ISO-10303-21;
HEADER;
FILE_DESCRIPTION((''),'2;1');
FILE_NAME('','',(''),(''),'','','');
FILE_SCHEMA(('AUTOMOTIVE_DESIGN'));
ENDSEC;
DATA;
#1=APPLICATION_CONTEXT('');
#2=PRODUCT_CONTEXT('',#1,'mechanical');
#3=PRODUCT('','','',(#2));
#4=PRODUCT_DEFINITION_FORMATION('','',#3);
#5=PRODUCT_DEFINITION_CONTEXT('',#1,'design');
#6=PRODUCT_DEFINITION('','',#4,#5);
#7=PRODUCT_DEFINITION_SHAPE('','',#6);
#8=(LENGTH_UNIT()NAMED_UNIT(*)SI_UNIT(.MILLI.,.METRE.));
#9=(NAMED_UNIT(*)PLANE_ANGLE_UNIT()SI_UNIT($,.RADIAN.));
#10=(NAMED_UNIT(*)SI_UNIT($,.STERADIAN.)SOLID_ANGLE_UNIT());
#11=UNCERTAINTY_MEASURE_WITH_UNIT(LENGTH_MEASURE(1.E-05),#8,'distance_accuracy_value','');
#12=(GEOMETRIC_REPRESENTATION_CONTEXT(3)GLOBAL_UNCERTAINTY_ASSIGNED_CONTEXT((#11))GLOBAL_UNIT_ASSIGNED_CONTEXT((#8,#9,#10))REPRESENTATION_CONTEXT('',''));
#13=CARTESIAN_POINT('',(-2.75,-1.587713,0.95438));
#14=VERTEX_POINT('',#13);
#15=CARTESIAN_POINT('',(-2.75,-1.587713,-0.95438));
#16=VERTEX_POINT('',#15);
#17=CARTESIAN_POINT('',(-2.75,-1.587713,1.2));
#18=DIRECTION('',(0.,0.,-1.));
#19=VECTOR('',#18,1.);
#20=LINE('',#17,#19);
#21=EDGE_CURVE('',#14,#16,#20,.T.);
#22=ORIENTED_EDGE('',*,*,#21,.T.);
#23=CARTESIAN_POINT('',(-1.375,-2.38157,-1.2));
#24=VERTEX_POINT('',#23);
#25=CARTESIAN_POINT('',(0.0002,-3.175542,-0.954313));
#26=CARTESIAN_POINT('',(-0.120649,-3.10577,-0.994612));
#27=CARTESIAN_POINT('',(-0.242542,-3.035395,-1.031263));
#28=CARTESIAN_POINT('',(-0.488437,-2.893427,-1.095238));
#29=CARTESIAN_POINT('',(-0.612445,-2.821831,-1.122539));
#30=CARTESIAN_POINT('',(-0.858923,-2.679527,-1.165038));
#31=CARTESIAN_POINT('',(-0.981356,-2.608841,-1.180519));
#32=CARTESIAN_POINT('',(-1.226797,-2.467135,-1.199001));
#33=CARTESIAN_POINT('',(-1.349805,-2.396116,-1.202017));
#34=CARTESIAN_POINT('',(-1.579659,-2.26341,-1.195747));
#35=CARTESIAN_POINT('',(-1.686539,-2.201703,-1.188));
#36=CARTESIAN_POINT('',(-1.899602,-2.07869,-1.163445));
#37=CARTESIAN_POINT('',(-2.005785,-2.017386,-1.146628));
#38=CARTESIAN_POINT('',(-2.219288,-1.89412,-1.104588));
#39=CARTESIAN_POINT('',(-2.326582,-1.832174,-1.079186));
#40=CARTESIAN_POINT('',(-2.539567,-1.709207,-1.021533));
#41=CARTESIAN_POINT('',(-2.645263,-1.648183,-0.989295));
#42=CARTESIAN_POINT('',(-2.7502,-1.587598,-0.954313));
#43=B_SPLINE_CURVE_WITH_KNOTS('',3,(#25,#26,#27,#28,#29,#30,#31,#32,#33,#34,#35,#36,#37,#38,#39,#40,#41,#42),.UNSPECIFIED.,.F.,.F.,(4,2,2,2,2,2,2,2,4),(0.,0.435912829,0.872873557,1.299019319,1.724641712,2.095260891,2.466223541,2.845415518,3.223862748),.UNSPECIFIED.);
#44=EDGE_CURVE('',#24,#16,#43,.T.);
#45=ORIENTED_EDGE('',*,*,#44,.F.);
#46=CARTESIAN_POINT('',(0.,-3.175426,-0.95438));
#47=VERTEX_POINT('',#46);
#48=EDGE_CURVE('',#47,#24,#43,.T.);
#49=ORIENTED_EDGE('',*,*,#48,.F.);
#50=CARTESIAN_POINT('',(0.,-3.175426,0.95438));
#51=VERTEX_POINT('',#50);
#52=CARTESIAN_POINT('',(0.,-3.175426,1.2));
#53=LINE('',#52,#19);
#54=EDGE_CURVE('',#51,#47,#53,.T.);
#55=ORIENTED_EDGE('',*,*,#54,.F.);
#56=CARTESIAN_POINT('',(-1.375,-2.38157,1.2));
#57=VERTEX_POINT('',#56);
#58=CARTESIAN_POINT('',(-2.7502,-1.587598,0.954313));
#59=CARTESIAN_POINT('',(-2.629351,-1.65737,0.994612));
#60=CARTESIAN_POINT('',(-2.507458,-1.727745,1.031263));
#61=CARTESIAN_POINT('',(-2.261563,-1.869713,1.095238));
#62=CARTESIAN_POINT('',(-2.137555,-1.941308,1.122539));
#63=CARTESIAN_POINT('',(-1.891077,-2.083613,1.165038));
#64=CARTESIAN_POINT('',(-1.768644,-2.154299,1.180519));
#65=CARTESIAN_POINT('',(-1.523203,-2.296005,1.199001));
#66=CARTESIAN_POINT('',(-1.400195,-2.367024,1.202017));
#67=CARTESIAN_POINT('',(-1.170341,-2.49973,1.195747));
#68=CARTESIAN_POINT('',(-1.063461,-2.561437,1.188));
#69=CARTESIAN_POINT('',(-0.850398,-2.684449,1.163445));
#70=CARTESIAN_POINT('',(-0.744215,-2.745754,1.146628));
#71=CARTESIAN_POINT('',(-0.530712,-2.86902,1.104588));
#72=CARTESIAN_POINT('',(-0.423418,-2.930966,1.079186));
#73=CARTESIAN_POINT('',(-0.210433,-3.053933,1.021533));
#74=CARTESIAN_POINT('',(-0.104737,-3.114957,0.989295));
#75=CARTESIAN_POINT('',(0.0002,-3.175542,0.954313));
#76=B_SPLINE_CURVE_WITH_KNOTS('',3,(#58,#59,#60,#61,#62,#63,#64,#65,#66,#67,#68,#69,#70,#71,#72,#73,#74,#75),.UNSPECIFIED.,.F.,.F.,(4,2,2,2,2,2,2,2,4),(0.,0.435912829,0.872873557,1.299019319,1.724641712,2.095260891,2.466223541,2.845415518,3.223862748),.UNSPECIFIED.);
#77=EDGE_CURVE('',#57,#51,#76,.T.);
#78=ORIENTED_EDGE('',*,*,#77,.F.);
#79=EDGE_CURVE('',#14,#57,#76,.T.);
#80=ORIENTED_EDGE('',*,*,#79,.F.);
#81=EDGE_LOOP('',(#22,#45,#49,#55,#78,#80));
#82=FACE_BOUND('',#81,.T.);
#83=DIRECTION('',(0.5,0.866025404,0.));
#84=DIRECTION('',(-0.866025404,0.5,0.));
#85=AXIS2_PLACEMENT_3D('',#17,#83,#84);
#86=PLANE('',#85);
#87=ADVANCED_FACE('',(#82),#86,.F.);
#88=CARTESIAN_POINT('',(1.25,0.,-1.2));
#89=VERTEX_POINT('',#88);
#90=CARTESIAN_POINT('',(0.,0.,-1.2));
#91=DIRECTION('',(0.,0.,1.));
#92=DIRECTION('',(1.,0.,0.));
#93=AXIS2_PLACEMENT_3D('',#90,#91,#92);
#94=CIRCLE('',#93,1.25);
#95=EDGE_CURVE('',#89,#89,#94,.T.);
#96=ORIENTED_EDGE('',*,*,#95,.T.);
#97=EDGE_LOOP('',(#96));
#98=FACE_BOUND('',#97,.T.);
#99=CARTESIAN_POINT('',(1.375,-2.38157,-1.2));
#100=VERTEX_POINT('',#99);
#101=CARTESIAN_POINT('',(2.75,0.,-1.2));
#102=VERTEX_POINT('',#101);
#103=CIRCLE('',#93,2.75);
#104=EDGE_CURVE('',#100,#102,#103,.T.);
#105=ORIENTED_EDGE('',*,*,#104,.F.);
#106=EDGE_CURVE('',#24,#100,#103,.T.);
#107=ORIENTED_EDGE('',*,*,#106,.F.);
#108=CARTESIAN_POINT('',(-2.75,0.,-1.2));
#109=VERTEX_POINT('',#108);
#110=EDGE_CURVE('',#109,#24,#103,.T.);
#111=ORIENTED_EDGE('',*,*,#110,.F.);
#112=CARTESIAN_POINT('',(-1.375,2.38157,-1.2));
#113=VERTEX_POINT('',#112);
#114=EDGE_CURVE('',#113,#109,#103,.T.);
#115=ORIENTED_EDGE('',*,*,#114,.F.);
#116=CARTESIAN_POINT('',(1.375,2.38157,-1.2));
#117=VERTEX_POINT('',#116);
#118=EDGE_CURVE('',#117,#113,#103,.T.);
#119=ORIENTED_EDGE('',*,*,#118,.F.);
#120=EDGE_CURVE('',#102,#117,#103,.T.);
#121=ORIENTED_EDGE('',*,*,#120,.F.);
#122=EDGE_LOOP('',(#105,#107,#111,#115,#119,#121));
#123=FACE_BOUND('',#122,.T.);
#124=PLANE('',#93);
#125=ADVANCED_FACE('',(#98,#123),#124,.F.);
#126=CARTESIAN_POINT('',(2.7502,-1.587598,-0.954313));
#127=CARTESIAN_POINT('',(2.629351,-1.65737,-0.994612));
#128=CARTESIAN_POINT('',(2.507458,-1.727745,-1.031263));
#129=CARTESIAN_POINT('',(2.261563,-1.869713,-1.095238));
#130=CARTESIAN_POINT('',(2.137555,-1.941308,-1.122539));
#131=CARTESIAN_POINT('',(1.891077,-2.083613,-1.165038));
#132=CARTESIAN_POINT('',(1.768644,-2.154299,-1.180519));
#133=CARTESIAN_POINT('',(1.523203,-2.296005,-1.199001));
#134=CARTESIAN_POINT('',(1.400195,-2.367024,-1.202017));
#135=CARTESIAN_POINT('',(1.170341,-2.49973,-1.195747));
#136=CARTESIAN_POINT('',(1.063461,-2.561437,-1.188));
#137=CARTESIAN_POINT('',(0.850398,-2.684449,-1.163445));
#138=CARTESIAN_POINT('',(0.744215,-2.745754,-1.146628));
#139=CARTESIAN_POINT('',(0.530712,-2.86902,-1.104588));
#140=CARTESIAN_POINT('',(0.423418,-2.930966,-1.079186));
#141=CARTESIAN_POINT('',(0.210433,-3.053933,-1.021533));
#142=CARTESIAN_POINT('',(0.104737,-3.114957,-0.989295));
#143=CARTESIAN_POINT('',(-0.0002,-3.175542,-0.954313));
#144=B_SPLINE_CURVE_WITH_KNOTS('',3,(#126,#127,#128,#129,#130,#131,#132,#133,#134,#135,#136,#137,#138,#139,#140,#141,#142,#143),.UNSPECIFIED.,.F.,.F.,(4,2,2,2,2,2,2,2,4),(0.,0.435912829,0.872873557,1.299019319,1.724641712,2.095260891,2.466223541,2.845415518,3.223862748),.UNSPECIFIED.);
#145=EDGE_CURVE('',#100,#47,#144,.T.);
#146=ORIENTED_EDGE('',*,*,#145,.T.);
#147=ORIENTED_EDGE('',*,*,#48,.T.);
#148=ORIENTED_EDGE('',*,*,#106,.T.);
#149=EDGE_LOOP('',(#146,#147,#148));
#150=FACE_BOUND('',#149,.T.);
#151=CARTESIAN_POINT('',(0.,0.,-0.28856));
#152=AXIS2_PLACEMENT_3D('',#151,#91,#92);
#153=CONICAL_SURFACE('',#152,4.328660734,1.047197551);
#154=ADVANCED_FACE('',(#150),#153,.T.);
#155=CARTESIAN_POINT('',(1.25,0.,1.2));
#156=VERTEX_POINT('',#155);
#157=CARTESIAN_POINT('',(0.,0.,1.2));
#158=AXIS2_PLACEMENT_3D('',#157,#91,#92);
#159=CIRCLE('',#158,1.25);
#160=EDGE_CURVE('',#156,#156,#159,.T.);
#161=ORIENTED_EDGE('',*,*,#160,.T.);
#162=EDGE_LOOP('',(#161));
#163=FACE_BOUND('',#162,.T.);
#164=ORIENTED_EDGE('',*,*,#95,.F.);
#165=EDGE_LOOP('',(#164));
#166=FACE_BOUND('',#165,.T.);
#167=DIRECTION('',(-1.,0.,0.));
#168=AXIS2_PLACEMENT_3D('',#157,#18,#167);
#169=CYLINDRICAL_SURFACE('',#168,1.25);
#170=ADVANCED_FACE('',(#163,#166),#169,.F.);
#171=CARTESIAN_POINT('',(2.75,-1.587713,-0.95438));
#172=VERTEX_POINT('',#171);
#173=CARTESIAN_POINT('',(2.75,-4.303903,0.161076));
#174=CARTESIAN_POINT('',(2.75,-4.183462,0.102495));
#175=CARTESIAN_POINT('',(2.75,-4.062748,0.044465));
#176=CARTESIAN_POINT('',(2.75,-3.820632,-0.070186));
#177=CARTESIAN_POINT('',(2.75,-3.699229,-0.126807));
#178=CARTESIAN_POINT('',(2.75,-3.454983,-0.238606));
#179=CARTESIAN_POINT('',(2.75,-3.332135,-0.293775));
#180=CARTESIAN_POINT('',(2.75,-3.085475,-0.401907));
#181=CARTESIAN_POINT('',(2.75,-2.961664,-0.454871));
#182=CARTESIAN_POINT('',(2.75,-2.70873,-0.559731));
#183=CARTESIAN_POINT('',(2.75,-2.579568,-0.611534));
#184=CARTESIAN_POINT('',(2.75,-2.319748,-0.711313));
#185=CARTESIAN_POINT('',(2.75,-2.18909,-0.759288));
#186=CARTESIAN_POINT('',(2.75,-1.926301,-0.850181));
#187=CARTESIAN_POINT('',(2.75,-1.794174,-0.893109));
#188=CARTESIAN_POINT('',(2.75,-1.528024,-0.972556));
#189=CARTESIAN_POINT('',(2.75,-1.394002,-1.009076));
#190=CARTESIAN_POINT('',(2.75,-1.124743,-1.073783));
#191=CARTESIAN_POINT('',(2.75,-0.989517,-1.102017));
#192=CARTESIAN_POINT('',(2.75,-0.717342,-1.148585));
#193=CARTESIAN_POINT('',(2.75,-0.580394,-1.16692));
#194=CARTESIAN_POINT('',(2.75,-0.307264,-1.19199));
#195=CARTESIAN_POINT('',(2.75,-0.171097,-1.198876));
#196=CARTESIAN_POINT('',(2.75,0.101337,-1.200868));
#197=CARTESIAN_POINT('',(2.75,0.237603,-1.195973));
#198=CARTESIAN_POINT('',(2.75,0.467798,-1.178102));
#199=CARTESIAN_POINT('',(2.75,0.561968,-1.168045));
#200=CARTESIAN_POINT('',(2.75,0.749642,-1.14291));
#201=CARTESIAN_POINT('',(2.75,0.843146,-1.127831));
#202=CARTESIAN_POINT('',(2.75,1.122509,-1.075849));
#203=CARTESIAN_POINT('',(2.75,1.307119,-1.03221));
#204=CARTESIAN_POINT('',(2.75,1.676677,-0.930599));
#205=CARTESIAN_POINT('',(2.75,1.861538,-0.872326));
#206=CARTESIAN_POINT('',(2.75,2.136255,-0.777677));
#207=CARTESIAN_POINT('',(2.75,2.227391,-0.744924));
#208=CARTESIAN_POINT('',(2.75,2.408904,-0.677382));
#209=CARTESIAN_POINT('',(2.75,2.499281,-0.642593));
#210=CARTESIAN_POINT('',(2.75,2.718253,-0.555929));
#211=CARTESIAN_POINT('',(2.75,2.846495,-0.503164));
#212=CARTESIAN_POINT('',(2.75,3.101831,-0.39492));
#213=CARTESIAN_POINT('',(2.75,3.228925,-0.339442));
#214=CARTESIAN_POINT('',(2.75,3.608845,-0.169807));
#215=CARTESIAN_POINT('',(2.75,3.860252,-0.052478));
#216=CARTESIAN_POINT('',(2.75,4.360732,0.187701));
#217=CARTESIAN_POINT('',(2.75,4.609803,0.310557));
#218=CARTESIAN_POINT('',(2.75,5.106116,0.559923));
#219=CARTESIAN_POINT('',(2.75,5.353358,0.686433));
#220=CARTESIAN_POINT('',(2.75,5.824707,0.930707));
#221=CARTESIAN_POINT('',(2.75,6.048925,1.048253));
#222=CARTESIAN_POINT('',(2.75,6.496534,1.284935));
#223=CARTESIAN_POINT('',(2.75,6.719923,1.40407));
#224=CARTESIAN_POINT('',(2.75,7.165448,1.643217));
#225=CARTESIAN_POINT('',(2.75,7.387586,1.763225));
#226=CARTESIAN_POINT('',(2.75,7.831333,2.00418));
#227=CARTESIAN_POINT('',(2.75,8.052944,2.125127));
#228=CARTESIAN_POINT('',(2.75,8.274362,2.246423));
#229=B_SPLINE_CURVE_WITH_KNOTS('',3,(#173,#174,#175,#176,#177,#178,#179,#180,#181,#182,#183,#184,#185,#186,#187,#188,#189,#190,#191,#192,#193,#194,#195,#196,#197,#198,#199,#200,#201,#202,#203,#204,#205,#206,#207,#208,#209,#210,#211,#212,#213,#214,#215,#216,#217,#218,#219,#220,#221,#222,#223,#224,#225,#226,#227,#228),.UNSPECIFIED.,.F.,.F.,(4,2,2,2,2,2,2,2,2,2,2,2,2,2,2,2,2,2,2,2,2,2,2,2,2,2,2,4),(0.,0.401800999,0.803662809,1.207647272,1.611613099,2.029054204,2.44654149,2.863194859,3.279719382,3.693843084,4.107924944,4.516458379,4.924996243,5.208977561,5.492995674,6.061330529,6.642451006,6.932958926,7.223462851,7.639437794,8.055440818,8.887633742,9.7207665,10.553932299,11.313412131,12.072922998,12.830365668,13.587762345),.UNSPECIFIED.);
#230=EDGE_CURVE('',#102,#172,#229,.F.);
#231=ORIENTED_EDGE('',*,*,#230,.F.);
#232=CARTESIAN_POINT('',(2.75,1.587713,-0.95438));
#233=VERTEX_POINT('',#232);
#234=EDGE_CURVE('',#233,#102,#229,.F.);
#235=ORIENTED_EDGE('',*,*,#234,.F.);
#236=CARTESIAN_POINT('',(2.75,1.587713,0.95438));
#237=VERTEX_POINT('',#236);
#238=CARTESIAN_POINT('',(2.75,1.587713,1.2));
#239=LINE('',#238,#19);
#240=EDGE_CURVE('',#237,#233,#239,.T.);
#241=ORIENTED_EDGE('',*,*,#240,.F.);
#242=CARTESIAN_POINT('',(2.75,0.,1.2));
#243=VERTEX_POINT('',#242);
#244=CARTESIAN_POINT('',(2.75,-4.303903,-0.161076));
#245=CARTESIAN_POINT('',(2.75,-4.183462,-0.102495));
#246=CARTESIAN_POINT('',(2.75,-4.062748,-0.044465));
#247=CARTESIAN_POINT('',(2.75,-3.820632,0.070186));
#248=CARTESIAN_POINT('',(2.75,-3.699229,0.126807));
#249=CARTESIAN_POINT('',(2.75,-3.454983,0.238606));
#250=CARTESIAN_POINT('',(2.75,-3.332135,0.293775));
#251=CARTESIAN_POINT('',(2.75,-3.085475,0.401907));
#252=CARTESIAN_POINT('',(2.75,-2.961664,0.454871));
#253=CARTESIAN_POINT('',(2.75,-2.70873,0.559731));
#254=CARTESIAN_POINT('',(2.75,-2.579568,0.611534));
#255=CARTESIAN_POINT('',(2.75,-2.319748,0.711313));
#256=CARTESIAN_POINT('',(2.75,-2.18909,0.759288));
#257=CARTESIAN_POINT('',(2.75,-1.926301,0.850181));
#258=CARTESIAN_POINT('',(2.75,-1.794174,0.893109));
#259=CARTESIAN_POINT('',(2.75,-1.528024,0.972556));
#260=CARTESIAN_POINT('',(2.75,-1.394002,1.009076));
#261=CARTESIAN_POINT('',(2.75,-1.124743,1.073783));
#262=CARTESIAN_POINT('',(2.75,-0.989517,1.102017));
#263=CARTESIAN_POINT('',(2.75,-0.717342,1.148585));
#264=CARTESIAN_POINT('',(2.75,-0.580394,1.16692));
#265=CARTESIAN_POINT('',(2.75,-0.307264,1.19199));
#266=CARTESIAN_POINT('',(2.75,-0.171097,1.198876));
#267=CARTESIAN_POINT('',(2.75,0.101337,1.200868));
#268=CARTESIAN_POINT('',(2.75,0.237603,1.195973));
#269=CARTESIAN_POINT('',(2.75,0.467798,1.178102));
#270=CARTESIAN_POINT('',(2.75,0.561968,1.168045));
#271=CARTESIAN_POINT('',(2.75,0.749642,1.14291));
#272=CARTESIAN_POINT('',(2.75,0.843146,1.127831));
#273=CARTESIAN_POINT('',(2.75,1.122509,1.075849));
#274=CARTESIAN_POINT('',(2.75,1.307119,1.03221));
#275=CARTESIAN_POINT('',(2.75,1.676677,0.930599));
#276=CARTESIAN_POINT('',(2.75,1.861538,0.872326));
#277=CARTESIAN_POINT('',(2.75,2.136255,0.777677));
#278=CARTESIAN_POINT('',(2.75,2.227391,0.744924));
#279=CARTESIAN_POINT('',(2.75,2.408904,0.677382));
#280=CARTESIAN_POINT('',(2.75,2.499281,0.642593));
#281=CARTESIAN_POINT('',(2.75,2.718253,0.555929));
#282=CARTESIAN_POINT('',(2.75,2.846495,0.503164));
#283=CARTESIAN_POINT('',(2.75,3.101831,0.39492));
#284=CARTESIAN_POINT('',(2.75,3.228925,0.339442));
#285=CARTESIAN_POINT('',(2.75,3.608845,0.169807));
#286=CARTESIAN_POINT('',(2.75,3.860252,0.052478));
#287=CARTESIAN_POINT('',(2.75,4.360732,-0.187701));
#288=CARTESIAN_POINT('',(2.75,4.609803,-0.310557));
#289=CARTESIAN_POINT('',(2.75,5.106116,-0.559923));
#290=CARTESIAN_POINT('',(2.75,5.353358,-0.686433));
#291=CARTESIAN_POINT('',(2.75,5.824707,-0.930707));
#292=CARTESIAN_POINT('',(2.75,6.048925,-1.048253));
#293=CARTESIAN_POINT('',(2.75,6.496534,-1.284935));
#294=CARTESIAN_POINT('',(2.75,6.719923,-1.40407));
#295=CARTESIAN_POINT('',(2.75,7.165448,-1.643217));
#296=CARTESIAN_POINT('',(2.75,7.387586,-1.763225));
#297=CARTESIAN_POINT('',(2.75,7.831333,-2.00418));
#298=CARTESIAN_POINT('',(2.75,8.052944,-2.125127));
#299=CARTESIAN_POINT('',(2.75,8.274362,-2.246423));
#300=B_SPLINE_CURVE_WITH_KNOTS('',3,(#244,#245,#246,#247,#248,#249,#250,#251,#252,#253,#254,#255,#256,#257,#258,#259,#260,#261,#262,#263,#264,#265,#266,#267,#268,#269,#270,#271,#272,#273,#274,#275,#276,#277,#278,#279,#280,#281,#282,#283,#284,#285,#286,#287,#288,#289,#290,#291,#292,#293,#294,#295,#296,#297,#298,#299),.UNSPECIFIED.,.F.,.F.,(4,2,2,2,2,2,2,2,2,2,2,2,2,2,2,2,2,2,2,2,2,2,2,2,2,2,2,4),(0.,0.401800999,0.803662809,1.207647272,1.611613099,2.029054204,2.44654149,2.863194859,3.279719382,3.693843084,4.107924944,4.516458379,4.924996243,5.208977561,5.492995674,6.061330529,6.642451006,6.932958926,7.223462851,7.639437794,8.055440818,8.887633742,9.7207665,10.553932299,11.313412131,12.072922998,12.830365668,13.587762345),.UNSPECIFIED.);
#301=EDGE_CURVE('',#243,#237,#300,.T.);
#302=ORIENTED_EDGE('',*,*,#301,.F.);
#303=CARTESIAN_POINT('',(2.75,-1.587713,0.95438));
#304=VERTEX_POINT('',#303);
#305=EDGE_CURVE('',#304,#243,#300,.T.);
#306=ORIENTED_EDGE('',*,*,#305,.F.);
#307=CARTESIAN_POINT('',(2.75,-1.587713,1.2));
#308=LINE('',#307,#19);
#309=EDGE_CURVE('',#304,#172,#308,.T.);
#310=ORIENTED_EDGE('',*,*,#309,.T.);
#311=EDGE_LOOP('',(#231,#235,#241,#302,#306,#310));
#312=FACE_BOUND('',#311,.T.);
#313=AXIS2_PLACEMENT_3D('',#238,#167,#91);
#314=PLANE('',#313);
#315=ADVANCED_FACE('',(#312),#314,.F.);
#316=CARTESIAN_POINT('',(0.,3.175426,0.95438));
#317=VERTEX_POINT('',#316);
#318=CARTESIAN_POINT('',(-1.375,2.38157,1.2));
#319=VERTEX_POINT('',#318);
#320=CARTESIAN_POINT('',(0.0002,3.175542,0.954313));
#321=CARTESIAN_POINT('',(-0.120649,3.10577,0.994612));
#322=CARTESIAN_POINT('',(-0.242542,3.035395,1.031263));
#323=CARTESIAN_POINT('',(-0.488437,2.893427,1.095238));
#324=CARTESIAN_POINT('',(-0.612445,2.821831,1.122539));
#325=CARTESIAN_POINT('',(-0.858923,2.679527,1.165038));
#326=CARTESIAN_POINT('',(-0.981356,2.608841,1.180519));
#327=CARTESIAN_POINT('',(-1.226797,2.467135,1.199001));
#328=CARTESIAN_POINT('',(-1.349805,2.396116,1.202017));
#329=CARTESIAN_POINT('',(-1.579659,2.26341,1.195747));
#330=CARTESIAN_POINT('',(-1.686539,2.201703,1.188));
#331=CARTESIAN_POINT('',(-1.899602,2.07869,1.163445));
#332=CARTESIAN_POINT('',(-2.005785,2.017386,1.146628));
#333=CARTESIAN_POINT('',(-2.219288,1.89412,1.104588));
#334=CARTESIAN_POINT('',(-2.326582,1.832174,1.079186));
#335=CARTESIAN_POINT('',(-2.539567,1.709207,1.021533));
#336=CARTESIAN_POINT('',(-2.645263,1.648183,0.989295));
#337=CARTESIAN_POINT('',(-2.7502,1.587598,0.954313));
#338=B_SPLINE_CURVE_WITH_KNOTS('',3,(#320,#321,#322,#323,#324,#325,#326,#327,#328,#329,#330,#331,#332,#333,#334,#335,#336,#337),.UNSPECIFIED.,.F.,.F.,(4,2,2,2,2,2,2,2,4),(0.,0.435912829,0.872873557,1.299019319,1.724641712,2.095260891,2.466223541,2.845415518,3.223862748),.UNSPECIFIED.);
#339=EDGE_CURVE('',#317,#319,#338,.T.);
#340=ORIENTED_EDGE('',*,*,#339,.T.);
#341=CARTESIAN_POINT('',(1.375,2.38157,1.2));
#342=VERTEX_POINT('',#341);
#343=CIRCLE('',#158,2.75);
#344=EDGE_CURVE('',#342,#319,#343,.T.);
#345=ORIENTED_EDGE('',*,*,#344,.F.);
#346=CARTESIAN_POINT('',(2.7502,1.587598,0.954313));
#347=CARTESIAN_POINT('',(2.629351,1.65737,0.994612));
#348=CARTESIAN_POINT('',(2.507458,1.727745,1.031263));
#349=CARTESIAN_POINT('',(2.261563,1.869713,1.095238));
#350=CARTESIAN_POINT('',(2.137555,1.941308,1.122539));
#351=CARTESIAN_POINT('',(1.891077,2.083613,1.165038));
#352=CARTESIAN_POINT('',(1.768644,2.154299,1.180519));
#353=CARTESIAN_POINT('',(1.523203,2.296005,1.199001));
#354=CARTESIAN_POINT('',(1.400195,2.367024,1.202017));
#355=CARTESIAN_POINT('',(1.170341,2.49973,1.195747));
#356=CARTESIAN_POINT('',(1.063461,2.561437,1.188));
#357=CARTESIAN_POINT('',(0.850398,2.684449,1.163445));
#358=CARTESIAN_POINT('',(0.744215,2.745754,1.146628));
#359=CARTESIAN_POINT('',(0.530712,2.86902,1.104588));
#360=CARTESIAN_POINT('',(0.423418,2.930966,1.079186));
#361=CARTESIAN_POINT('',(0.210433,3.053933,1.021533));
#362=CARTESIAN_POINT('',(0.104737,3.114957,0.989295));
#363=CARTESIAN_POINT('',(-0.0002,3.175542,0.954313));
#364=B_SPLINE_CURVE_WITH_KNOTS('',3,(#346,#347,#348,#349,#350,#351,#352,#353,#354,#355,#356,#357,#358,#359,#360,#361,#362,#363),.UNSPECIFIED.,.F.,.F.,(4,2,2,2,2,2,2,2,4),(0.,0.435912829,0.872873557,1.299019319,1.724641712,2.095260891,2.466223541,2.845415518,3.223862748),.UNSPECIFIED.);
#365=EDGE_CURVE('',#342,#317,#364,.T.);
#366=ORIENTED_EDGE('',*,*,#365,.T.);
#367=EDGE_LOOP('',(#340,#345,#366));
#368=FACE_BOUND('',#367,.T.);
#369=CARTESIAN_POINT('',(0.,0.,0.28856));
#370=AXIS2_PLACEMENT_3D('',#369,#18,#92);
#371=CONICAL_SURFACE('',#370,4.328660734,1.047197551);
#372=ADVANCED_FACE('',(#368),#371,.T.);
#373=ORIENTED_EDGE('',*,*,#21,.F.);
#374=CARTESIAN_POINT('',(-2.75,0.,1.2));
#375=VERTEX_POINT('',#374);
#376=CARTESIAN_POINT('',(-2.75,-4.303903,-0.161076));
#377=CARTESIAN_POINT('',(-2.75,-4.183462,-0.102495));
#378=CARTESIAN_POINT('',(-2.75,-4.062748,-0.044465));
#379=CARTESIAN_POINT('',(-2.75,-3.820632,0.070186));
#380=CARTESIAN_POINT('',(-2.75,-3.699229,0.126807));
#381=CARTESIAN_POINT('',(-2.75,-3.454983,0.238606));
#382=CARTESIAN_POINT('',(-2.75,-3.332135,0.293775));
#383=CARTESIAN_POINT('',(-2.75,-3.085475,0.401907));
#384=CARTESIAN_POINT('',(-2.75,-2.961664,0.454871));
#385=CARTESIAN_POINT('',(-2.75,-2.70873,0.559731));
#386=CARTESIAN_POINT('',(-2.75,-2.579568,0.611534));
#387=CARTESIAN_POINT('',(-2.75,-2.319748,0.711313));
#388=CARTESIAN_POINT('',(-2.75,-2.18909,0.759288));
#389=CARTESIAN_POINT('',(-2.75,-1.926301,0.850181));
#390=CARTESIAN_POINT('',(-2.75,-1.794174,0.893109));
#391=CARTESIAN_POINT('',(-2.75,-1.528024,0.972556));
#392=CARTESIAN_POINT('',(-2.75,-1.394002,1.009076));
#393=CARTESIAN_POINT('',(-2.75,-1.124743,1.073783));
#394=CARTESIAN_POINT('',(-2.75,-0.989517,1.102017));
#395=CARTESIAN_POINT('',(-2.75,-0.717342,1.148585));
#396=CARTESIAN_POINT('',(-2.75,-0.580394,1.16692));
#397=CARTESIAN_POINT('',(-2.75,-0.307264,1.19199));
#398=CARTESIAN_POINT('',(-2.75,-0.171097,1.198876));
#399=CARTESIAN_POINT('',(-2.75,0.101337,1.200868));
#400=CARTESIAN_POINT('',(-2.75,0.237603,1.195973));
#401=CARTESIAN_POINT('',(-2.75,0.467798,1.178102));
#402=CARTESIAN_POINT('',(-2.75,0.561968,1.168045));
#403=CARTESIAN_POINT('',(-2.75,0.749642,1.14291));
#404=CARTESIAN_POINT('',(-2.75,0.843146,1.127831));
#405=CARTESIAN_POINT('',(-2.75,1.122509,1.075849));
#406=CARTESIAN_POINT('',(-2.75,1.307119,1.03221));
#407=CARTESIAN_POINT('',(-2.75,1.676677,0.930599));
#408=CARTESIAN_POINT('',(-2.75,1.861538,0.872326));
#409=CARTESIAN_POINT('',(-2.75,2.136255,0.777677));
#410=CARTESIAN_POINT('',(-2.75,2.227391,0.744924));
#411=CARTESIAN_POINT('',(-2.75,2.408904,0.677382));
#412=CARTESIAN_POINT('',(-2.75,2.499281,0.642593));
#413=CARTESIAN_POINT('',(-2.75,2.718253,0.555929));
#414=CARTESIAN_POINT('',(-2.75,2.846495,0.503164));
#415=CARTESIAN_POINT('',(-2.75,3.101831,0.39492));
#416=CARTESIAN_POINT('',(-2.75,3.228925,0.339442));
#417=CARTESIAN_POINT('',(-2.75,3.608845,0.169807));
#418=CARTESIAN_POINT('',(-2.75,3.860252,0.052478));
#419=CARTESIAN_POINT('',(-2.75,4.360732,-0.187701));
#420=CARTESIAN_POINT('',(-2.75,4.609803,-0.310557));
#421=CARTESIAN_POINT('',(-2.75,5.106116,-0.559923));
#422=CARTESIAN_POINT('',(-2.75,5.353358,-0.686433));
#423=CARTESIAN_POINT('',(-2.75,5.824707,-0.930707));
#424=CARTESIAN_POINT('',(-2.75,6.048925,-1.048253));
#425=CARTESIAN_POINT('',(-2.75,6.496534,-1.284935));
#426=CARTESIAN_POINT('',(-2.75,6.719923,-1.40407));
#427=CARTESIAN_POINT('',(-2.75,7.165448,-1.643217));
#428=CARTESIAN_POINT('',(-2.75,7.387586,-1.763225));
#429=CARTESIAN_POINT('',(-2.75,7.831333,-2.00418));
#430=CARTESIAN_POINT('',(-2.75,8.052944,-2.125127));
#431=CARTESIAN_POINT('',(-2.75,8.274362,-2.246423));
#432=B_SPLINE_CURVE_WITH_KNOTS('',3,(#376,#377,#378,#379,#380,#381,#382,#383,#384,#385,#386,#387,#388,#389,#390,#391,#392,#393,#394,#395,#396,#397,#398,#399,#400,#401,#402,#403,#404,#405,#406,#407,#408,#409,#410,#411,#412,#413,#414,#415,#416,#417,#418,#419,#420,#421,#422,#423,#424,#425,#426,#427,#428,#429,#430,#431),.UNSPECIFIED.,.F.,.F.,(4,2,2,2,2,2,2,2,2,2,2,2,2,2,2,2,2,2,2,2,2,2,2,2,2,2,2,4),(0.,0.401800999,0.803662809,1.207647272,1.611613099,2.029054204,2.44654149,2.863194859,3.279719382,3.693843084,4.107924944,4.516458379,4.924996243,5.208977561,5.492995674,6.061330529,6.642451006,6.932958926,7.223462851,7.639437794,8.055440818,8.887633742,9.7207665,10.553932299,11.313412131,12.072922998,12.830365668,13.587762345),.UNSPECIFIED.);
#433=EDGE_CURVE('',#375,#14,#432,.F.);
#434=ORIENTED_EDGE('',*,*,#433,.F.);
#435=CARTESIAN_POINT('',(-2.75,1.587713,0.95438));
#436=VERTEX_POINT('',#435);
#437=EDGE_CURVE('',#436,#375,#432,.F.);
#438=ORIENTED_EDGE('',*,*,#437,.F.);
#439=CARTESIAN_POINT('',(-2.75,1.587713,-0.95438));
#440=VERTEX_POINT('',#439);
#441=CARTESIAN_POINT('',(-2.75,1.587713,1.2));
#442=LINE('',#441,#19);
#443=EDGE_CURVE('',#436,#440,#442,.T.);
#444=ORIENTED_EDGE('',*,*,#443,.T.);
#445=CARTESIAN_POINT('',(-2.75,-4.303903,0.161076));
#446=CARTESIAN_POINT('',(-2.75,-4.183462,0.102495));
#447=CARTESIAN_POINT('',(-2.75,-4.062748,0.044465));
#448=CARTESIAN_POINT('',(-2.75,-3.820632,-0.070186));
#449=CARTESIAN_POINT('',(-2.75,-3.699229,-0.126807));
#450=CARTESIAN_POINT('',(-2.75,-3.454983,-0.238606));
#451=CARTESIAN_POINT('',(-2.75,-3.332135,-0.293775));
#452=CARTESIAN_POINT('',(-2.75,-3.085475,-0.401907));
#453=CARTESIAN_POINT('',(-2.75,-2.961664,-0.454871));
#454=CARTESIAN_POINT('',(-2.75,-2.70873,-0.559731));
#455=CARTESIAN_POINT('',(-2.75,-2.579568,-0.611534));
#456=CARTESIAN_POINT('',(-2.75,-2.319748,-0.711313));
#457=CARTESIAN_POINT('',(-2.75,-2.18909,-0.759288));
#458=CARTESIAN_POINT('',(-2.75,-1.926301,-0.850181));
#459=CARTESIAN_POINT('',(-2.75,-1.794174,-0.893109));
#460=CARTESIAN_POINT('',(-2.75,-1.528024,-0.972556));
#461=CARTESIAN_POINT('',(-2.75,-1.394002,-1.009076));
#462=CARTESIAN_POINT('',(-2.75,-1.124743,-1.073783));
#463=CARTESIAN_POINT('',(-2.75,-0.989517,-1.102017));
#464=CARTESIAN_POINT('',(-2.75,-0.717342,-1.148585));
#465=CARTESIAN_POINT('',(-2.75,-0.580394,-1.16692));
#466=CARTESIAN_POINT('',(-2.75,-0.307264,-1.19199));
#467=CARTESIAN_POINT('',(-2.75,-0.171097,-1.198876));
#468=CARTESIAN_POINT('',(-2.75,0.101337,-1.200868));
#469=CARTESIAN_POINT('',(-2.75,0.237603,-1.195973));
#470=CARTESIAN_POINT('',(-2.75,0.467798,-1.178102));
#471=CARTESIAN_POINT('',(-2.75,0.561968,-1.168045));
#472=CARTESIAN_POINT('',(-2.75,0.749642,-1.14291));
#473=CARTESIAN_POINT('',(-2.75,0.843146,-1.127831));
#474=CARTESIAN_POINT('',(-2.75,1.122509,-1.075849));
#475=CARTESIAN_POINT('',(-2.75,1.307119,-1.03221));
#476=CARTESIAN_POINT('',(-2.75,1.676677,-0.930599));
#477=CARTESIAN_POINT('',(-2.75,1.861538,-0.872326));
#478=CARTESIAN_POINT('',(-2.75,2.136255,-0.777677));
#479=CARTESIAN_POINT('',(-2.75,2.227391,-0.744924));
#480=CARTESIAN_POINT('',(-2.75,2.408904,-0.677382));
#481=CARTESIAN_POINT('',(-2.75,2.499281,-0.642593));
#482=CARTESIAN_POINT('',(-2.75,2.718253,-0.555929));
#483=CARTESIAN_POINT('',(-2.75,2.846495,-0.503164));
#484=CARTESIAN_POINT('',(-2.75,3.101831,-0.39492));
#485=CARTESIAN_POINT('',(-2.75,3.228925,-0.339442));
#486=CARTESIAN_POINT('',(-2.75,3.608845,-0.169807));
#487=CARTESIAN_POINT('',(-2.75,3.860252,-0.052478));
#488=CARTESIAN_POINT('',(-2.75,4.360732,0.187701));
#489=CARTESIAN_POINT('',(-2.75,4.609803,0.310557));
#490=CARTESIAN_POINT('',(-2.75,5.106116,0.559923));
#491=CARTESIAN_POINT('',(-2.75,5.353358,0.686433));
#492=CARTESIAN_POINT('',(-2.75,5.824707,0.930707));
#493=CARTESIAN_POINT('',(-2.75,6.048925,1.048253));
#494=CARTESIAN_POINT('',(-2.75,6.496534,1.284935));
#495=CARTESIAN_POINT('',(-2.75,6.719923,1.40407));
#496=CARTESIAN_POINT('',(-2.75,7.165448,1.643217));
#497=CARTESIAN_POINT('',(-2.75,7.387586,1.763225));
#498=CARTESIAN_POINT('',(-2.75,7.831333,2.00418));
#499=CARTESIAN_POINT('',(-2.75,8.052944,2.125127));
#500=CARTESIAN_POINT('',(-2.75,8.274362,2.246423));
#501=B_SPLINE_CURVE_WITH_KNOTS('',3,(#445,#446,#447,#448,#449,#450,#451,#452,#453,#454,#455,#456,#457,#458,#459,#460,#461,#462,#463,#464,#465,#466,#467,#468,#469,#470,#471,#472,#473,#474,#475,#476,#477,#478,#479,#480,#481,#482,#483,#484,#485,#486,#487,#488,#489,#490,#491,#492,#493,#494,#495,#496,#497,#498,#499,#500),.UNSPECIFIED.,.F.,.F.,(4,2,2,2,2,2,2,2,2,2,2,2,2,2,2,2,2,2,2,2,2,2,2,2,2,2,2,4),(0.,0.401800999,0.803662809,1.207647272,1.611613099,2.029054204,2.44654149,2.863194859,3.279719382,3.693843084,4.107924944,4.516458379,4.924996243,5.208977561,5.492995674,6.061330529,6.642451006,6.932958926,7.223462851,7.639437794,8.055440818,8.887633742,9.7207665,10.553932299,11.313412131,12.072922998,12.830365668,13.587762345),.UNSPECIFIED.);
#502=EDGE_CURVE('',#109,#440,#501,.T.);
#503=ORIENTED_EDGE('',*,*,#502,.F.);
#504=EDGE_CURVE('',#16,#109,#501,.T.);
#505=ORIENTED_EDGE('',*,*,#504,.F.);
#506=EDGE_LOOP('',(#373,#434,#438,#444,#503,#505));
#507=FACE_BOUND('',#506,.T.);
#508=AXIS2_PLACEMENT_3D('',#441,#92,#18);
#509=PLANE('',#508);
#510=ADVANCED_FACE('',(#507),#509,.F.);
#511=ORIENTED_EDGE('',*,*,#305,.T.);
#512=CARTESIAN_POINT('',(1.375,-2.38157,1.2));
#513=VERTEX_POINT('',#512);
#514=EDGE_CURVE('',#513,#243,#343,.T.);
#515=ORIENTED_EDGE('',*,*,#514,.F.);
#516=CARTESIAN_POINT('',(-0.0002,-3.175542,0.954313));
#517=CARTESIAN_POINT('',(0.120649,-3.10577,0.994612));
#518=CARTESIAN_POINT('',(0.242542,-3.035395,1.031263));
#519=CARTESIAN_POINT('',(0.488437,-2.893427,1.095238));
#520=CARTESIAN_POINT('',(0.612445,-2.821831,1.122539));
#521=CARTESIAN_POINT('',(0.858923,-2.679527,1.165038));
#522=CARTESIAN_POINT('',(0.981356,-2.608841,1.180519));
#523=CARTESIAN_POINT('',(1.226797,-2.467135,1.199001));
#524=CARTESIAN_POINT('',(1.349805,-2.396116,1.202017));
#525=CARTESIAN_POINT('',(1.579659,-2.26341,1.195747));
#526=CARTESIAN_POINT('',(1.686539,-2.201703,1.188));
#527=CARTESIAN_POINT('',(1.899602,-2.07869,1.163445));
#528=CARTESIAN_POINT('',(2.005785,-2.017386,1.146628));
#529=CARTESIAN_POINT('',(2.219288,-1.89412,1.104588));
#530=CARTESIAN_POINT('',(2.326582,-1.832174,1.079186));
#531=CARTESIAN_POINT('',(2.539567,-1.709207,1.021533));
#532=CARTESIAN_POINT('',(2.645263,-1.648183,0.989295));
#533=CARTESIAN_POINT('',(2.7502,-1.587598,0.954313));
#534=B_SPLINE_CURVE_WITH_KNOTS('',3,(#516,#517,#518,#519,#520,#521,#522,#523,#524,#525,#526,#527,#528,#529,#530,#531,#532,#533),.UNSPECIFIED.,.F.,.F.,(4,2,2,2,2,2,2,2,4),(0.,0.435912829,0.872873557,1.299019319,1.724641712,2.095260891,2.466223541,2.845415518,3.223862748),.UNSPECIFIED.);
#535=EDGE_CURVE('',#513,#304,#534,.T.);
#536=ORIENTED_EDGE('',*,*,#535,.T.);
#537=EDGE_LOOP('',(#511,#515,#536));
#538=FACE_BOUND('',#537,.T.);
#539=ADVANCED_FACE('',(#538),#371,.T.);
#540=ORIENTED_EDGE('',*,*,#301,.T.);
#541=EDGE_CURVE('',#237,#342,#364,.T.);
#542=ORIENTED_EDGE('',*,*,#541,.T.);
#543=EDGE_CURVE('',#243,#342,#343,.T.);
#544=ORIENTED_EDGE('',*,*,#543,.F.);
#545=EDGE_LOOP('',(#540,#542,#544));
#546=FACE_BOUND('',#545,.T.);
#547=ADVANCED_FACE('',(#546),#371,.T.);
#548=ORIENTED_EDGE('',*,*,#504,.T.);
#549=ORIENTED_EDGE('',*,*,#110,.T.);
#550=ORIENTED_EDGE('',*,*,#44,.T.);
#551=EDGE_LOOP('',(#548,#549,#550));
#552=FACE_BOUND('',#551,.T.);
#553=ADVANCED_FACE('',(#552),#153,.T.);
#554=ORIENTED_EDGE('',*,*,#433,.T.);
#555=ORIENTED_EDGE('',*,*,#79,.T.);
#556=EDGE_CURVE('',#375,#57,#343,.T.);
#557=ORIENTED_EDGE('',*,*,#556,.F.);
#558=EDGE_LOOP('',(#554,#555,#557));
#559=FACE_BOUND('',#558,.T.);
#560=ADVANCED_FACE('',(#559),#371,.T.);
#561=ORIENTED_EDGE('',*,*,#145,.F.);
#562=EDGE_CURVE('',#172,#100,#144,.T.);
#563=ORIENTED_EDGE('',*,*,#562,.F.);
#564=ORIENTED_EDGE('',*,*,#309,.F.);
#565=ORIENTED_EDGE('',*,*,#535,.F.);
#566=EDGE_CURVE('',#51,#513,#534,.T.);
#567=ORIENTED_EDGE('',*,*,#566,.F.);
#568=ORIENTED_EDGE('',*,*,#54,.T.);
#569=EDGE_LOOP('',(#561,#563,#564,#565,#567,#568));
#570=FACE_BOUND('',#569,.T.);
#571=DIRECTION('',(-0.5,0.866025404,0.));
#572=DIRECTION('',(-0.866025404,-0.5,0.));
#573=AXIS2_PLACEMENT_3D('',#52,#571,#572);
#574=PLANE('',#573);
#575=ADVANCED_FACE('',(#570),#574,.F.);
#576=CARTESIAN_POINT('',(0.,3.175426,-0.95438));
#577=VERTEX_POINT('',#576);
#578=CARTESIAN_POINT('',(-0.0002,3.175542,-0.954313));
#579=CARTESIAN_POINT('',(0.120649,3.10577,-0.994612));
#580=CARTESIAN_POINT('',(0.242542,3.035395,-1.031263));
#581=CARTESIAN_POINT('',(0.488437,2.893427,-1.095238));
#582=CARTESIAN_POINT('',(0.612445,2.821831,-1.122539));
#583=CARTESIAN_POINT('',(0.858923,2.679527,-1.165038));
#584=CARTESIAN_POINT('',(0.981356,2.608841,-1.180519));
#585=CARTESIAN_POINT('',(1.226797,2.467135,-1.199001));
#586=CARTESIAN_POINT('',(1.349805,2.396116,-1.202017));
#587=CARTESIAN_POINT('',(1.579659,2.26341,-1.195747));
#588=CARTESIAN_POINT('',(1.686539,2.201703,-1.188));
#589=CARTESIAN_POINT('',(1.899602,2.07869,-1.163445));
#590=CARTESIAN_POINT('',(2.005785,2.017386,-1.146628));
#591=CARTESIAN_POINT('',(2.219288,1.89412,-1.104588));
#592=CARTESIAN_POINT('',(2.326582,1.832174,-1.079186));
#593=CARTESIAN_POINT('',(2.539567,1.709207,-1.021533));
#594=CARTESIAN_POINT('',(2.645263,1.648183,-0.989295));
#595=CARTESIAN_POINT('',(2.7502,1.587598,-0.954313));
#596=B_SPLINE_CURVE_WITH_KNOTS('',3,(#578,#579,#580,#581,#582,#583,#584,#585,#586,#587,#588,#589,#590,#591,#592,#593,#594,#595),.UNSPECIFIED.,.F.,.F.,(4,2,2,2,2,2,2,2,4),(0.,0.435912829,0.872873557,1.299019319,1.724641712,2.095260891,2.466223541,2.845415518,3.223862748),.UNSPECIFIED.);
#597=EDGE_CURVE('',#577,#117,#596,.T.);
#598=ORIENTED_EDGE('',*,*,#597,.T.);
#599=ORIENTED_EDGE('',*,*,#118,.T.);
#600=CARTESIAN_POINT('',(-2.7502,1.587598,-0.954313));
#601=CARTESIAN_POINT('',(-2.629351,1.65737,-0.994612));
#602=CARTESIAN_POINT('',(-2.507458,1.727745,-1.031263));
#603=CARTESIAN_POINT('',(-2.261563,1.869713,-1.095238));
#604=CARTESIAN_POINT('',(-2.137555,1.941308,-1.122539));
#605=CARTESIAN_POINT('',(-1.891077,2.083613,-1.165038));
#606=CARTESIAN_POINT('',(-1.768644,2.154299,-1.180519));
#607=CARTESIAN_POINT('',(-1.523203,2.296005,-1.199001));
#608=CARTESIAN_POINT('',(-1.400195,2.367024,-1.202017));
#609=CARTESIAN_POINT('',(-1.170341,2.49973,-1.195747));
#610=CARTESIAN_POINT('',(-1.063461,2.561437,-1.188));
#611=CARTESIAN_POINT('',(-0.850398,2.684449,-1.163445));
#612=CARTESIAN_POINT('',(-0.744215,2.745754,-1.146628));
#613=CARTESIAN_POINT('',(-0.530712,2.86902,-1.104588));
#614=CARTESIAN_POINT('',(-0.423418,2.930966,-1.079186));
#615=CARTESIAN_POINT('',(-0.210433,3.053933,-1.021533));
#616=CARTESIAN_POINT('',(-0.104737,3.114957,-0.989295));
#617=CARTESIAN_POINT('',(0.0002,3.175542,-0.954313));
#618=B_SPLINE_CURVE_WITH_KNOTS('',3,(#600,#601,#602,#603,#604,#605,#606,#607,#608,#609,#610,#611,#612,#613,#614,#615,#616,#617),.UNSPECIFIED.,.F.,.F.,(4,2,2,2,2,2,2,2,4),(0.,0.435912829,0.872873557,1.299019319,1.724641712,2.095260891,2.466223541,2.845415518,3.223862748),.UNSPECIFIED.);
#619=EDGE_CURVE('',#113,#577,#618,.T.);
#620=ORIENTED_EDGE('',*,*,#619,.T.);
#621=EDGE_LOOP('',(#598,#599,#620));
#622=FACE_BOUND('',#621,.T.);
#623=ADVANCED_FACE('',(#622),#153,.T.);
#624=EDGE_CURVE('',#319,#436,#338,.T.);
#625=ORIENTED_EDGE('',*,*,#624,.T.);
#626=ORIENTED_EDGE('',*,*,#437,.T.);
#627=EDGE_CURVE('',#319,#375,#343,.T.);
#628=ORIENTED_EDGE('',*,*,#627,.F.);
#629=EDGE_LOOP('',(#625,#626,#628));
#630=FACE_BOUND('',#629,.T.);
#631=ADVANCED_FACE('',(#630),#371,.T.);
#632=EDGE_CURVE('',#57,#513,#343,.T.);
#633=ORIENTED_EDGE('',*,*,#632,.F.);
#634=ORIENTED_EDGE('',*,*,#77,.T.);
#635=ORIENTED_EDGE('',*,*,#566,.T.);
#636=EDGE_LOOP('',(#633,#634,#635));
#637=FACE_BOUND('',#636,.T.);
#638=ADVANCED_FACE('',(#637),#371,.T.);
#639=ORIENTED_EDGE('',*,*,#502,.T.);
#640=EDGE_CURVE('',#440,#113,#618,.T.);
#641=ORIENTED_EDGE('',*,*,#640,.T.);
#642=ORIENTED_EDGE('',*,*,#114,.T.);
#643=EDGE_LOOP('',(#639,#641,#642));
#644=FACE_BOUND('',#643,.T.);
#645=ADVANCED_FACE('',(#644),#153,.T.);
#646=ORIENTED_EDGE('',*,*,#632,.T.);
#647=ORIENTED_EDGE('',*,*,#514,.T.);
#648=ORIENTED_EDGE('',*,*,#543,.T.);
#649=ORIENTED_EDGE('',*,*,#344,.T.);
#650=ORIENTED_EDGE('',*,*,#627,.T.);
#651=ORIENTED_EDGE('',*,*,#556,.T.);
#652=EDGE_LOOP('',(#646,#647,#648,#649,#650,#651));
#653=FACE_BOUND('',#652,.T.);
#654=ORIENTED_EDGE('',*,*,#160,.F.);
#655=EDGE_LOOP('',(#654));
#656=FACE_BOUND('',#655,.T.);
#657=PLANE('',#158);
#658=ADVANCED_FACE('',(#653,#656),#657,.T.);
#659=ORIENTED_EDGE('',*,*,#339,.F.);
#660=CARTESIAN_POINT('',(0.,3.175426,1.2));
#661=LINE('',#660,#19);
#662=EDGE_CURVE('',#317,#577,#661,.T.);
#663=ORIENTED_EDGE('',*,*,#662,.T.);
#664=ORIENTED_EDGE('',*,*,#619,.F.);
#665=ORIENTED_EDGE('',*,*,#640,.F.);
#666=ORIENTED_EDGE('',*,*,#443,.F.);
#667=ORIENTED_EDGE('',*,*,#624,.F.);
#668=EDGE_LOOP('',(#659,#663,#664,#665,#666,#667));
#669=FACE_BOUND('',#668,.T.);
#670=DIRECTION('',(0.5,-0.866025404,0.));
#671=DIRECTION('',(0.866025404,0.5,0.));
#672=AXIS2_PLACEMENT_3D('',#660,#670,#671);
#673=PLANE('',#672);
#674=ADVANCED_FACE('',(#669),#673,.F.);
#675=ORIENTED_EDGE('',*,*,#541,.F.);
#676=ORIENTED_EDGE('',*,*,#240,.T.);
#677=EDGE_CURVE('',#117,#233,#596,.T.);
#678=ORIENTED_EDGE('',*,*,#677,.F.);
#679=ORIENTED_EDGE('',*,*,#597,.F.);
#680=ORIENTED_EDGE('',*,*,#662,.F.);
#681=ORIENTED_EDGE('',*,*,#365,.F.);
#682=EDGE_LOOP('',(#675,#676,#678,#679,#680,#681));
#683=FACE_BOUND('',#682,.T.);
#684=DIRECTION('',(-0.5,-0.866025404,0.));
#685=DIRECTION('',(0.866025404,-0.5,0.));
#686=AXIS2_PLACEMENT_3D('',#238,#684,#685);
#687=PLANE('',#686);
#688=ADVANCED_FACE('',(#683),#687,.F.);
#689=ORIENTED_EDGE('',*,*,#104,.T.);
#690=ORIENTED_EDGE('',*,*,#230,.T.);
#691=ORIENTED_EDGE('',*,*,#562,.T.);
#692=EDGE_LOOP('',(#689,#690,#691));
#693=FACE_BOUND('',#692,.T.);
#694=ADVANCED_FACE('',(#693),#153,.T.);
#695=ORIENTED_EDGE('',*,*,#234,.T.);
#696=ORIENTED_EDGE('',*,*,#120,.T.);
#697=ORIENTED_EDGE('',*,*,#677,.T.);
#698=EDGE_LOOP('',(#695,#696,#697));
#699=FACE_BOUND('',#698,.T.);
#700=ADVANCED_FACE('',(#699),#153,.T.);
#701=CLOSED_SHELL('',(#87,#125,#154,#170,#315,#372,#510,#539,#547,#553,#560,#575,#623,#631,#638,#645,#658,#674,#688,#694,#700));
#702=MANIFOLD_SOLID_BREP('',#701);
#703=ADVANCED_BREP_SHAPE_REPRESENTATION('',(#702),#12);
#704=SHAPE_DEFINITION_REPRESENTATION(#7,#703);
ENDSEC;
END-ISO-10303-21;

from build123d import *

# Parameters (mm, degrees)
SKETCH2_R           = 1.25
BOSS_EXTRUDE1_DEPTH = 1.2


with BuildPart() as part:
    # Sketch2 → Boss-Extrude1 (new body, symmetric)
    with BuildSketch(Plane.XY):
        Polygon((2.75, 1.58771324), (2.75, -1.58771324), (0, -3.175426481), (-2.75, -1.58771324), (-2.75, 1.58771324), (0, 3.175426481), align=None)
        Circle(SKETCH2_R, mode=Mode.SUBTRACT)
    extrude(amount=BOSS_EXTRUDE1_DEPTH, both=True)

    # Sketch4 → Cut-Revolve2 (revolve, cut)
    with BuildSketch(Plane(origin=(0, 0, 0), x_dir=(0, 0, -1), z_dir=(1, 0, 0))):
        Polygon((1.2, 2.75), (1.2, 4.328660734), (0.2885598, 4.328660734), align=None)
    cut_revolve2 = revolve(axis=Axis((0, 0, 2.99453507), (0, 0, -1)), mode=Mode.SUBTRACT)

    # Mirror1: Cut-Revolve2 across plane
    add(cut_revolve2.mirror(Plane.XY), mode=Mode.SUBTRACT)


solid = part.part
